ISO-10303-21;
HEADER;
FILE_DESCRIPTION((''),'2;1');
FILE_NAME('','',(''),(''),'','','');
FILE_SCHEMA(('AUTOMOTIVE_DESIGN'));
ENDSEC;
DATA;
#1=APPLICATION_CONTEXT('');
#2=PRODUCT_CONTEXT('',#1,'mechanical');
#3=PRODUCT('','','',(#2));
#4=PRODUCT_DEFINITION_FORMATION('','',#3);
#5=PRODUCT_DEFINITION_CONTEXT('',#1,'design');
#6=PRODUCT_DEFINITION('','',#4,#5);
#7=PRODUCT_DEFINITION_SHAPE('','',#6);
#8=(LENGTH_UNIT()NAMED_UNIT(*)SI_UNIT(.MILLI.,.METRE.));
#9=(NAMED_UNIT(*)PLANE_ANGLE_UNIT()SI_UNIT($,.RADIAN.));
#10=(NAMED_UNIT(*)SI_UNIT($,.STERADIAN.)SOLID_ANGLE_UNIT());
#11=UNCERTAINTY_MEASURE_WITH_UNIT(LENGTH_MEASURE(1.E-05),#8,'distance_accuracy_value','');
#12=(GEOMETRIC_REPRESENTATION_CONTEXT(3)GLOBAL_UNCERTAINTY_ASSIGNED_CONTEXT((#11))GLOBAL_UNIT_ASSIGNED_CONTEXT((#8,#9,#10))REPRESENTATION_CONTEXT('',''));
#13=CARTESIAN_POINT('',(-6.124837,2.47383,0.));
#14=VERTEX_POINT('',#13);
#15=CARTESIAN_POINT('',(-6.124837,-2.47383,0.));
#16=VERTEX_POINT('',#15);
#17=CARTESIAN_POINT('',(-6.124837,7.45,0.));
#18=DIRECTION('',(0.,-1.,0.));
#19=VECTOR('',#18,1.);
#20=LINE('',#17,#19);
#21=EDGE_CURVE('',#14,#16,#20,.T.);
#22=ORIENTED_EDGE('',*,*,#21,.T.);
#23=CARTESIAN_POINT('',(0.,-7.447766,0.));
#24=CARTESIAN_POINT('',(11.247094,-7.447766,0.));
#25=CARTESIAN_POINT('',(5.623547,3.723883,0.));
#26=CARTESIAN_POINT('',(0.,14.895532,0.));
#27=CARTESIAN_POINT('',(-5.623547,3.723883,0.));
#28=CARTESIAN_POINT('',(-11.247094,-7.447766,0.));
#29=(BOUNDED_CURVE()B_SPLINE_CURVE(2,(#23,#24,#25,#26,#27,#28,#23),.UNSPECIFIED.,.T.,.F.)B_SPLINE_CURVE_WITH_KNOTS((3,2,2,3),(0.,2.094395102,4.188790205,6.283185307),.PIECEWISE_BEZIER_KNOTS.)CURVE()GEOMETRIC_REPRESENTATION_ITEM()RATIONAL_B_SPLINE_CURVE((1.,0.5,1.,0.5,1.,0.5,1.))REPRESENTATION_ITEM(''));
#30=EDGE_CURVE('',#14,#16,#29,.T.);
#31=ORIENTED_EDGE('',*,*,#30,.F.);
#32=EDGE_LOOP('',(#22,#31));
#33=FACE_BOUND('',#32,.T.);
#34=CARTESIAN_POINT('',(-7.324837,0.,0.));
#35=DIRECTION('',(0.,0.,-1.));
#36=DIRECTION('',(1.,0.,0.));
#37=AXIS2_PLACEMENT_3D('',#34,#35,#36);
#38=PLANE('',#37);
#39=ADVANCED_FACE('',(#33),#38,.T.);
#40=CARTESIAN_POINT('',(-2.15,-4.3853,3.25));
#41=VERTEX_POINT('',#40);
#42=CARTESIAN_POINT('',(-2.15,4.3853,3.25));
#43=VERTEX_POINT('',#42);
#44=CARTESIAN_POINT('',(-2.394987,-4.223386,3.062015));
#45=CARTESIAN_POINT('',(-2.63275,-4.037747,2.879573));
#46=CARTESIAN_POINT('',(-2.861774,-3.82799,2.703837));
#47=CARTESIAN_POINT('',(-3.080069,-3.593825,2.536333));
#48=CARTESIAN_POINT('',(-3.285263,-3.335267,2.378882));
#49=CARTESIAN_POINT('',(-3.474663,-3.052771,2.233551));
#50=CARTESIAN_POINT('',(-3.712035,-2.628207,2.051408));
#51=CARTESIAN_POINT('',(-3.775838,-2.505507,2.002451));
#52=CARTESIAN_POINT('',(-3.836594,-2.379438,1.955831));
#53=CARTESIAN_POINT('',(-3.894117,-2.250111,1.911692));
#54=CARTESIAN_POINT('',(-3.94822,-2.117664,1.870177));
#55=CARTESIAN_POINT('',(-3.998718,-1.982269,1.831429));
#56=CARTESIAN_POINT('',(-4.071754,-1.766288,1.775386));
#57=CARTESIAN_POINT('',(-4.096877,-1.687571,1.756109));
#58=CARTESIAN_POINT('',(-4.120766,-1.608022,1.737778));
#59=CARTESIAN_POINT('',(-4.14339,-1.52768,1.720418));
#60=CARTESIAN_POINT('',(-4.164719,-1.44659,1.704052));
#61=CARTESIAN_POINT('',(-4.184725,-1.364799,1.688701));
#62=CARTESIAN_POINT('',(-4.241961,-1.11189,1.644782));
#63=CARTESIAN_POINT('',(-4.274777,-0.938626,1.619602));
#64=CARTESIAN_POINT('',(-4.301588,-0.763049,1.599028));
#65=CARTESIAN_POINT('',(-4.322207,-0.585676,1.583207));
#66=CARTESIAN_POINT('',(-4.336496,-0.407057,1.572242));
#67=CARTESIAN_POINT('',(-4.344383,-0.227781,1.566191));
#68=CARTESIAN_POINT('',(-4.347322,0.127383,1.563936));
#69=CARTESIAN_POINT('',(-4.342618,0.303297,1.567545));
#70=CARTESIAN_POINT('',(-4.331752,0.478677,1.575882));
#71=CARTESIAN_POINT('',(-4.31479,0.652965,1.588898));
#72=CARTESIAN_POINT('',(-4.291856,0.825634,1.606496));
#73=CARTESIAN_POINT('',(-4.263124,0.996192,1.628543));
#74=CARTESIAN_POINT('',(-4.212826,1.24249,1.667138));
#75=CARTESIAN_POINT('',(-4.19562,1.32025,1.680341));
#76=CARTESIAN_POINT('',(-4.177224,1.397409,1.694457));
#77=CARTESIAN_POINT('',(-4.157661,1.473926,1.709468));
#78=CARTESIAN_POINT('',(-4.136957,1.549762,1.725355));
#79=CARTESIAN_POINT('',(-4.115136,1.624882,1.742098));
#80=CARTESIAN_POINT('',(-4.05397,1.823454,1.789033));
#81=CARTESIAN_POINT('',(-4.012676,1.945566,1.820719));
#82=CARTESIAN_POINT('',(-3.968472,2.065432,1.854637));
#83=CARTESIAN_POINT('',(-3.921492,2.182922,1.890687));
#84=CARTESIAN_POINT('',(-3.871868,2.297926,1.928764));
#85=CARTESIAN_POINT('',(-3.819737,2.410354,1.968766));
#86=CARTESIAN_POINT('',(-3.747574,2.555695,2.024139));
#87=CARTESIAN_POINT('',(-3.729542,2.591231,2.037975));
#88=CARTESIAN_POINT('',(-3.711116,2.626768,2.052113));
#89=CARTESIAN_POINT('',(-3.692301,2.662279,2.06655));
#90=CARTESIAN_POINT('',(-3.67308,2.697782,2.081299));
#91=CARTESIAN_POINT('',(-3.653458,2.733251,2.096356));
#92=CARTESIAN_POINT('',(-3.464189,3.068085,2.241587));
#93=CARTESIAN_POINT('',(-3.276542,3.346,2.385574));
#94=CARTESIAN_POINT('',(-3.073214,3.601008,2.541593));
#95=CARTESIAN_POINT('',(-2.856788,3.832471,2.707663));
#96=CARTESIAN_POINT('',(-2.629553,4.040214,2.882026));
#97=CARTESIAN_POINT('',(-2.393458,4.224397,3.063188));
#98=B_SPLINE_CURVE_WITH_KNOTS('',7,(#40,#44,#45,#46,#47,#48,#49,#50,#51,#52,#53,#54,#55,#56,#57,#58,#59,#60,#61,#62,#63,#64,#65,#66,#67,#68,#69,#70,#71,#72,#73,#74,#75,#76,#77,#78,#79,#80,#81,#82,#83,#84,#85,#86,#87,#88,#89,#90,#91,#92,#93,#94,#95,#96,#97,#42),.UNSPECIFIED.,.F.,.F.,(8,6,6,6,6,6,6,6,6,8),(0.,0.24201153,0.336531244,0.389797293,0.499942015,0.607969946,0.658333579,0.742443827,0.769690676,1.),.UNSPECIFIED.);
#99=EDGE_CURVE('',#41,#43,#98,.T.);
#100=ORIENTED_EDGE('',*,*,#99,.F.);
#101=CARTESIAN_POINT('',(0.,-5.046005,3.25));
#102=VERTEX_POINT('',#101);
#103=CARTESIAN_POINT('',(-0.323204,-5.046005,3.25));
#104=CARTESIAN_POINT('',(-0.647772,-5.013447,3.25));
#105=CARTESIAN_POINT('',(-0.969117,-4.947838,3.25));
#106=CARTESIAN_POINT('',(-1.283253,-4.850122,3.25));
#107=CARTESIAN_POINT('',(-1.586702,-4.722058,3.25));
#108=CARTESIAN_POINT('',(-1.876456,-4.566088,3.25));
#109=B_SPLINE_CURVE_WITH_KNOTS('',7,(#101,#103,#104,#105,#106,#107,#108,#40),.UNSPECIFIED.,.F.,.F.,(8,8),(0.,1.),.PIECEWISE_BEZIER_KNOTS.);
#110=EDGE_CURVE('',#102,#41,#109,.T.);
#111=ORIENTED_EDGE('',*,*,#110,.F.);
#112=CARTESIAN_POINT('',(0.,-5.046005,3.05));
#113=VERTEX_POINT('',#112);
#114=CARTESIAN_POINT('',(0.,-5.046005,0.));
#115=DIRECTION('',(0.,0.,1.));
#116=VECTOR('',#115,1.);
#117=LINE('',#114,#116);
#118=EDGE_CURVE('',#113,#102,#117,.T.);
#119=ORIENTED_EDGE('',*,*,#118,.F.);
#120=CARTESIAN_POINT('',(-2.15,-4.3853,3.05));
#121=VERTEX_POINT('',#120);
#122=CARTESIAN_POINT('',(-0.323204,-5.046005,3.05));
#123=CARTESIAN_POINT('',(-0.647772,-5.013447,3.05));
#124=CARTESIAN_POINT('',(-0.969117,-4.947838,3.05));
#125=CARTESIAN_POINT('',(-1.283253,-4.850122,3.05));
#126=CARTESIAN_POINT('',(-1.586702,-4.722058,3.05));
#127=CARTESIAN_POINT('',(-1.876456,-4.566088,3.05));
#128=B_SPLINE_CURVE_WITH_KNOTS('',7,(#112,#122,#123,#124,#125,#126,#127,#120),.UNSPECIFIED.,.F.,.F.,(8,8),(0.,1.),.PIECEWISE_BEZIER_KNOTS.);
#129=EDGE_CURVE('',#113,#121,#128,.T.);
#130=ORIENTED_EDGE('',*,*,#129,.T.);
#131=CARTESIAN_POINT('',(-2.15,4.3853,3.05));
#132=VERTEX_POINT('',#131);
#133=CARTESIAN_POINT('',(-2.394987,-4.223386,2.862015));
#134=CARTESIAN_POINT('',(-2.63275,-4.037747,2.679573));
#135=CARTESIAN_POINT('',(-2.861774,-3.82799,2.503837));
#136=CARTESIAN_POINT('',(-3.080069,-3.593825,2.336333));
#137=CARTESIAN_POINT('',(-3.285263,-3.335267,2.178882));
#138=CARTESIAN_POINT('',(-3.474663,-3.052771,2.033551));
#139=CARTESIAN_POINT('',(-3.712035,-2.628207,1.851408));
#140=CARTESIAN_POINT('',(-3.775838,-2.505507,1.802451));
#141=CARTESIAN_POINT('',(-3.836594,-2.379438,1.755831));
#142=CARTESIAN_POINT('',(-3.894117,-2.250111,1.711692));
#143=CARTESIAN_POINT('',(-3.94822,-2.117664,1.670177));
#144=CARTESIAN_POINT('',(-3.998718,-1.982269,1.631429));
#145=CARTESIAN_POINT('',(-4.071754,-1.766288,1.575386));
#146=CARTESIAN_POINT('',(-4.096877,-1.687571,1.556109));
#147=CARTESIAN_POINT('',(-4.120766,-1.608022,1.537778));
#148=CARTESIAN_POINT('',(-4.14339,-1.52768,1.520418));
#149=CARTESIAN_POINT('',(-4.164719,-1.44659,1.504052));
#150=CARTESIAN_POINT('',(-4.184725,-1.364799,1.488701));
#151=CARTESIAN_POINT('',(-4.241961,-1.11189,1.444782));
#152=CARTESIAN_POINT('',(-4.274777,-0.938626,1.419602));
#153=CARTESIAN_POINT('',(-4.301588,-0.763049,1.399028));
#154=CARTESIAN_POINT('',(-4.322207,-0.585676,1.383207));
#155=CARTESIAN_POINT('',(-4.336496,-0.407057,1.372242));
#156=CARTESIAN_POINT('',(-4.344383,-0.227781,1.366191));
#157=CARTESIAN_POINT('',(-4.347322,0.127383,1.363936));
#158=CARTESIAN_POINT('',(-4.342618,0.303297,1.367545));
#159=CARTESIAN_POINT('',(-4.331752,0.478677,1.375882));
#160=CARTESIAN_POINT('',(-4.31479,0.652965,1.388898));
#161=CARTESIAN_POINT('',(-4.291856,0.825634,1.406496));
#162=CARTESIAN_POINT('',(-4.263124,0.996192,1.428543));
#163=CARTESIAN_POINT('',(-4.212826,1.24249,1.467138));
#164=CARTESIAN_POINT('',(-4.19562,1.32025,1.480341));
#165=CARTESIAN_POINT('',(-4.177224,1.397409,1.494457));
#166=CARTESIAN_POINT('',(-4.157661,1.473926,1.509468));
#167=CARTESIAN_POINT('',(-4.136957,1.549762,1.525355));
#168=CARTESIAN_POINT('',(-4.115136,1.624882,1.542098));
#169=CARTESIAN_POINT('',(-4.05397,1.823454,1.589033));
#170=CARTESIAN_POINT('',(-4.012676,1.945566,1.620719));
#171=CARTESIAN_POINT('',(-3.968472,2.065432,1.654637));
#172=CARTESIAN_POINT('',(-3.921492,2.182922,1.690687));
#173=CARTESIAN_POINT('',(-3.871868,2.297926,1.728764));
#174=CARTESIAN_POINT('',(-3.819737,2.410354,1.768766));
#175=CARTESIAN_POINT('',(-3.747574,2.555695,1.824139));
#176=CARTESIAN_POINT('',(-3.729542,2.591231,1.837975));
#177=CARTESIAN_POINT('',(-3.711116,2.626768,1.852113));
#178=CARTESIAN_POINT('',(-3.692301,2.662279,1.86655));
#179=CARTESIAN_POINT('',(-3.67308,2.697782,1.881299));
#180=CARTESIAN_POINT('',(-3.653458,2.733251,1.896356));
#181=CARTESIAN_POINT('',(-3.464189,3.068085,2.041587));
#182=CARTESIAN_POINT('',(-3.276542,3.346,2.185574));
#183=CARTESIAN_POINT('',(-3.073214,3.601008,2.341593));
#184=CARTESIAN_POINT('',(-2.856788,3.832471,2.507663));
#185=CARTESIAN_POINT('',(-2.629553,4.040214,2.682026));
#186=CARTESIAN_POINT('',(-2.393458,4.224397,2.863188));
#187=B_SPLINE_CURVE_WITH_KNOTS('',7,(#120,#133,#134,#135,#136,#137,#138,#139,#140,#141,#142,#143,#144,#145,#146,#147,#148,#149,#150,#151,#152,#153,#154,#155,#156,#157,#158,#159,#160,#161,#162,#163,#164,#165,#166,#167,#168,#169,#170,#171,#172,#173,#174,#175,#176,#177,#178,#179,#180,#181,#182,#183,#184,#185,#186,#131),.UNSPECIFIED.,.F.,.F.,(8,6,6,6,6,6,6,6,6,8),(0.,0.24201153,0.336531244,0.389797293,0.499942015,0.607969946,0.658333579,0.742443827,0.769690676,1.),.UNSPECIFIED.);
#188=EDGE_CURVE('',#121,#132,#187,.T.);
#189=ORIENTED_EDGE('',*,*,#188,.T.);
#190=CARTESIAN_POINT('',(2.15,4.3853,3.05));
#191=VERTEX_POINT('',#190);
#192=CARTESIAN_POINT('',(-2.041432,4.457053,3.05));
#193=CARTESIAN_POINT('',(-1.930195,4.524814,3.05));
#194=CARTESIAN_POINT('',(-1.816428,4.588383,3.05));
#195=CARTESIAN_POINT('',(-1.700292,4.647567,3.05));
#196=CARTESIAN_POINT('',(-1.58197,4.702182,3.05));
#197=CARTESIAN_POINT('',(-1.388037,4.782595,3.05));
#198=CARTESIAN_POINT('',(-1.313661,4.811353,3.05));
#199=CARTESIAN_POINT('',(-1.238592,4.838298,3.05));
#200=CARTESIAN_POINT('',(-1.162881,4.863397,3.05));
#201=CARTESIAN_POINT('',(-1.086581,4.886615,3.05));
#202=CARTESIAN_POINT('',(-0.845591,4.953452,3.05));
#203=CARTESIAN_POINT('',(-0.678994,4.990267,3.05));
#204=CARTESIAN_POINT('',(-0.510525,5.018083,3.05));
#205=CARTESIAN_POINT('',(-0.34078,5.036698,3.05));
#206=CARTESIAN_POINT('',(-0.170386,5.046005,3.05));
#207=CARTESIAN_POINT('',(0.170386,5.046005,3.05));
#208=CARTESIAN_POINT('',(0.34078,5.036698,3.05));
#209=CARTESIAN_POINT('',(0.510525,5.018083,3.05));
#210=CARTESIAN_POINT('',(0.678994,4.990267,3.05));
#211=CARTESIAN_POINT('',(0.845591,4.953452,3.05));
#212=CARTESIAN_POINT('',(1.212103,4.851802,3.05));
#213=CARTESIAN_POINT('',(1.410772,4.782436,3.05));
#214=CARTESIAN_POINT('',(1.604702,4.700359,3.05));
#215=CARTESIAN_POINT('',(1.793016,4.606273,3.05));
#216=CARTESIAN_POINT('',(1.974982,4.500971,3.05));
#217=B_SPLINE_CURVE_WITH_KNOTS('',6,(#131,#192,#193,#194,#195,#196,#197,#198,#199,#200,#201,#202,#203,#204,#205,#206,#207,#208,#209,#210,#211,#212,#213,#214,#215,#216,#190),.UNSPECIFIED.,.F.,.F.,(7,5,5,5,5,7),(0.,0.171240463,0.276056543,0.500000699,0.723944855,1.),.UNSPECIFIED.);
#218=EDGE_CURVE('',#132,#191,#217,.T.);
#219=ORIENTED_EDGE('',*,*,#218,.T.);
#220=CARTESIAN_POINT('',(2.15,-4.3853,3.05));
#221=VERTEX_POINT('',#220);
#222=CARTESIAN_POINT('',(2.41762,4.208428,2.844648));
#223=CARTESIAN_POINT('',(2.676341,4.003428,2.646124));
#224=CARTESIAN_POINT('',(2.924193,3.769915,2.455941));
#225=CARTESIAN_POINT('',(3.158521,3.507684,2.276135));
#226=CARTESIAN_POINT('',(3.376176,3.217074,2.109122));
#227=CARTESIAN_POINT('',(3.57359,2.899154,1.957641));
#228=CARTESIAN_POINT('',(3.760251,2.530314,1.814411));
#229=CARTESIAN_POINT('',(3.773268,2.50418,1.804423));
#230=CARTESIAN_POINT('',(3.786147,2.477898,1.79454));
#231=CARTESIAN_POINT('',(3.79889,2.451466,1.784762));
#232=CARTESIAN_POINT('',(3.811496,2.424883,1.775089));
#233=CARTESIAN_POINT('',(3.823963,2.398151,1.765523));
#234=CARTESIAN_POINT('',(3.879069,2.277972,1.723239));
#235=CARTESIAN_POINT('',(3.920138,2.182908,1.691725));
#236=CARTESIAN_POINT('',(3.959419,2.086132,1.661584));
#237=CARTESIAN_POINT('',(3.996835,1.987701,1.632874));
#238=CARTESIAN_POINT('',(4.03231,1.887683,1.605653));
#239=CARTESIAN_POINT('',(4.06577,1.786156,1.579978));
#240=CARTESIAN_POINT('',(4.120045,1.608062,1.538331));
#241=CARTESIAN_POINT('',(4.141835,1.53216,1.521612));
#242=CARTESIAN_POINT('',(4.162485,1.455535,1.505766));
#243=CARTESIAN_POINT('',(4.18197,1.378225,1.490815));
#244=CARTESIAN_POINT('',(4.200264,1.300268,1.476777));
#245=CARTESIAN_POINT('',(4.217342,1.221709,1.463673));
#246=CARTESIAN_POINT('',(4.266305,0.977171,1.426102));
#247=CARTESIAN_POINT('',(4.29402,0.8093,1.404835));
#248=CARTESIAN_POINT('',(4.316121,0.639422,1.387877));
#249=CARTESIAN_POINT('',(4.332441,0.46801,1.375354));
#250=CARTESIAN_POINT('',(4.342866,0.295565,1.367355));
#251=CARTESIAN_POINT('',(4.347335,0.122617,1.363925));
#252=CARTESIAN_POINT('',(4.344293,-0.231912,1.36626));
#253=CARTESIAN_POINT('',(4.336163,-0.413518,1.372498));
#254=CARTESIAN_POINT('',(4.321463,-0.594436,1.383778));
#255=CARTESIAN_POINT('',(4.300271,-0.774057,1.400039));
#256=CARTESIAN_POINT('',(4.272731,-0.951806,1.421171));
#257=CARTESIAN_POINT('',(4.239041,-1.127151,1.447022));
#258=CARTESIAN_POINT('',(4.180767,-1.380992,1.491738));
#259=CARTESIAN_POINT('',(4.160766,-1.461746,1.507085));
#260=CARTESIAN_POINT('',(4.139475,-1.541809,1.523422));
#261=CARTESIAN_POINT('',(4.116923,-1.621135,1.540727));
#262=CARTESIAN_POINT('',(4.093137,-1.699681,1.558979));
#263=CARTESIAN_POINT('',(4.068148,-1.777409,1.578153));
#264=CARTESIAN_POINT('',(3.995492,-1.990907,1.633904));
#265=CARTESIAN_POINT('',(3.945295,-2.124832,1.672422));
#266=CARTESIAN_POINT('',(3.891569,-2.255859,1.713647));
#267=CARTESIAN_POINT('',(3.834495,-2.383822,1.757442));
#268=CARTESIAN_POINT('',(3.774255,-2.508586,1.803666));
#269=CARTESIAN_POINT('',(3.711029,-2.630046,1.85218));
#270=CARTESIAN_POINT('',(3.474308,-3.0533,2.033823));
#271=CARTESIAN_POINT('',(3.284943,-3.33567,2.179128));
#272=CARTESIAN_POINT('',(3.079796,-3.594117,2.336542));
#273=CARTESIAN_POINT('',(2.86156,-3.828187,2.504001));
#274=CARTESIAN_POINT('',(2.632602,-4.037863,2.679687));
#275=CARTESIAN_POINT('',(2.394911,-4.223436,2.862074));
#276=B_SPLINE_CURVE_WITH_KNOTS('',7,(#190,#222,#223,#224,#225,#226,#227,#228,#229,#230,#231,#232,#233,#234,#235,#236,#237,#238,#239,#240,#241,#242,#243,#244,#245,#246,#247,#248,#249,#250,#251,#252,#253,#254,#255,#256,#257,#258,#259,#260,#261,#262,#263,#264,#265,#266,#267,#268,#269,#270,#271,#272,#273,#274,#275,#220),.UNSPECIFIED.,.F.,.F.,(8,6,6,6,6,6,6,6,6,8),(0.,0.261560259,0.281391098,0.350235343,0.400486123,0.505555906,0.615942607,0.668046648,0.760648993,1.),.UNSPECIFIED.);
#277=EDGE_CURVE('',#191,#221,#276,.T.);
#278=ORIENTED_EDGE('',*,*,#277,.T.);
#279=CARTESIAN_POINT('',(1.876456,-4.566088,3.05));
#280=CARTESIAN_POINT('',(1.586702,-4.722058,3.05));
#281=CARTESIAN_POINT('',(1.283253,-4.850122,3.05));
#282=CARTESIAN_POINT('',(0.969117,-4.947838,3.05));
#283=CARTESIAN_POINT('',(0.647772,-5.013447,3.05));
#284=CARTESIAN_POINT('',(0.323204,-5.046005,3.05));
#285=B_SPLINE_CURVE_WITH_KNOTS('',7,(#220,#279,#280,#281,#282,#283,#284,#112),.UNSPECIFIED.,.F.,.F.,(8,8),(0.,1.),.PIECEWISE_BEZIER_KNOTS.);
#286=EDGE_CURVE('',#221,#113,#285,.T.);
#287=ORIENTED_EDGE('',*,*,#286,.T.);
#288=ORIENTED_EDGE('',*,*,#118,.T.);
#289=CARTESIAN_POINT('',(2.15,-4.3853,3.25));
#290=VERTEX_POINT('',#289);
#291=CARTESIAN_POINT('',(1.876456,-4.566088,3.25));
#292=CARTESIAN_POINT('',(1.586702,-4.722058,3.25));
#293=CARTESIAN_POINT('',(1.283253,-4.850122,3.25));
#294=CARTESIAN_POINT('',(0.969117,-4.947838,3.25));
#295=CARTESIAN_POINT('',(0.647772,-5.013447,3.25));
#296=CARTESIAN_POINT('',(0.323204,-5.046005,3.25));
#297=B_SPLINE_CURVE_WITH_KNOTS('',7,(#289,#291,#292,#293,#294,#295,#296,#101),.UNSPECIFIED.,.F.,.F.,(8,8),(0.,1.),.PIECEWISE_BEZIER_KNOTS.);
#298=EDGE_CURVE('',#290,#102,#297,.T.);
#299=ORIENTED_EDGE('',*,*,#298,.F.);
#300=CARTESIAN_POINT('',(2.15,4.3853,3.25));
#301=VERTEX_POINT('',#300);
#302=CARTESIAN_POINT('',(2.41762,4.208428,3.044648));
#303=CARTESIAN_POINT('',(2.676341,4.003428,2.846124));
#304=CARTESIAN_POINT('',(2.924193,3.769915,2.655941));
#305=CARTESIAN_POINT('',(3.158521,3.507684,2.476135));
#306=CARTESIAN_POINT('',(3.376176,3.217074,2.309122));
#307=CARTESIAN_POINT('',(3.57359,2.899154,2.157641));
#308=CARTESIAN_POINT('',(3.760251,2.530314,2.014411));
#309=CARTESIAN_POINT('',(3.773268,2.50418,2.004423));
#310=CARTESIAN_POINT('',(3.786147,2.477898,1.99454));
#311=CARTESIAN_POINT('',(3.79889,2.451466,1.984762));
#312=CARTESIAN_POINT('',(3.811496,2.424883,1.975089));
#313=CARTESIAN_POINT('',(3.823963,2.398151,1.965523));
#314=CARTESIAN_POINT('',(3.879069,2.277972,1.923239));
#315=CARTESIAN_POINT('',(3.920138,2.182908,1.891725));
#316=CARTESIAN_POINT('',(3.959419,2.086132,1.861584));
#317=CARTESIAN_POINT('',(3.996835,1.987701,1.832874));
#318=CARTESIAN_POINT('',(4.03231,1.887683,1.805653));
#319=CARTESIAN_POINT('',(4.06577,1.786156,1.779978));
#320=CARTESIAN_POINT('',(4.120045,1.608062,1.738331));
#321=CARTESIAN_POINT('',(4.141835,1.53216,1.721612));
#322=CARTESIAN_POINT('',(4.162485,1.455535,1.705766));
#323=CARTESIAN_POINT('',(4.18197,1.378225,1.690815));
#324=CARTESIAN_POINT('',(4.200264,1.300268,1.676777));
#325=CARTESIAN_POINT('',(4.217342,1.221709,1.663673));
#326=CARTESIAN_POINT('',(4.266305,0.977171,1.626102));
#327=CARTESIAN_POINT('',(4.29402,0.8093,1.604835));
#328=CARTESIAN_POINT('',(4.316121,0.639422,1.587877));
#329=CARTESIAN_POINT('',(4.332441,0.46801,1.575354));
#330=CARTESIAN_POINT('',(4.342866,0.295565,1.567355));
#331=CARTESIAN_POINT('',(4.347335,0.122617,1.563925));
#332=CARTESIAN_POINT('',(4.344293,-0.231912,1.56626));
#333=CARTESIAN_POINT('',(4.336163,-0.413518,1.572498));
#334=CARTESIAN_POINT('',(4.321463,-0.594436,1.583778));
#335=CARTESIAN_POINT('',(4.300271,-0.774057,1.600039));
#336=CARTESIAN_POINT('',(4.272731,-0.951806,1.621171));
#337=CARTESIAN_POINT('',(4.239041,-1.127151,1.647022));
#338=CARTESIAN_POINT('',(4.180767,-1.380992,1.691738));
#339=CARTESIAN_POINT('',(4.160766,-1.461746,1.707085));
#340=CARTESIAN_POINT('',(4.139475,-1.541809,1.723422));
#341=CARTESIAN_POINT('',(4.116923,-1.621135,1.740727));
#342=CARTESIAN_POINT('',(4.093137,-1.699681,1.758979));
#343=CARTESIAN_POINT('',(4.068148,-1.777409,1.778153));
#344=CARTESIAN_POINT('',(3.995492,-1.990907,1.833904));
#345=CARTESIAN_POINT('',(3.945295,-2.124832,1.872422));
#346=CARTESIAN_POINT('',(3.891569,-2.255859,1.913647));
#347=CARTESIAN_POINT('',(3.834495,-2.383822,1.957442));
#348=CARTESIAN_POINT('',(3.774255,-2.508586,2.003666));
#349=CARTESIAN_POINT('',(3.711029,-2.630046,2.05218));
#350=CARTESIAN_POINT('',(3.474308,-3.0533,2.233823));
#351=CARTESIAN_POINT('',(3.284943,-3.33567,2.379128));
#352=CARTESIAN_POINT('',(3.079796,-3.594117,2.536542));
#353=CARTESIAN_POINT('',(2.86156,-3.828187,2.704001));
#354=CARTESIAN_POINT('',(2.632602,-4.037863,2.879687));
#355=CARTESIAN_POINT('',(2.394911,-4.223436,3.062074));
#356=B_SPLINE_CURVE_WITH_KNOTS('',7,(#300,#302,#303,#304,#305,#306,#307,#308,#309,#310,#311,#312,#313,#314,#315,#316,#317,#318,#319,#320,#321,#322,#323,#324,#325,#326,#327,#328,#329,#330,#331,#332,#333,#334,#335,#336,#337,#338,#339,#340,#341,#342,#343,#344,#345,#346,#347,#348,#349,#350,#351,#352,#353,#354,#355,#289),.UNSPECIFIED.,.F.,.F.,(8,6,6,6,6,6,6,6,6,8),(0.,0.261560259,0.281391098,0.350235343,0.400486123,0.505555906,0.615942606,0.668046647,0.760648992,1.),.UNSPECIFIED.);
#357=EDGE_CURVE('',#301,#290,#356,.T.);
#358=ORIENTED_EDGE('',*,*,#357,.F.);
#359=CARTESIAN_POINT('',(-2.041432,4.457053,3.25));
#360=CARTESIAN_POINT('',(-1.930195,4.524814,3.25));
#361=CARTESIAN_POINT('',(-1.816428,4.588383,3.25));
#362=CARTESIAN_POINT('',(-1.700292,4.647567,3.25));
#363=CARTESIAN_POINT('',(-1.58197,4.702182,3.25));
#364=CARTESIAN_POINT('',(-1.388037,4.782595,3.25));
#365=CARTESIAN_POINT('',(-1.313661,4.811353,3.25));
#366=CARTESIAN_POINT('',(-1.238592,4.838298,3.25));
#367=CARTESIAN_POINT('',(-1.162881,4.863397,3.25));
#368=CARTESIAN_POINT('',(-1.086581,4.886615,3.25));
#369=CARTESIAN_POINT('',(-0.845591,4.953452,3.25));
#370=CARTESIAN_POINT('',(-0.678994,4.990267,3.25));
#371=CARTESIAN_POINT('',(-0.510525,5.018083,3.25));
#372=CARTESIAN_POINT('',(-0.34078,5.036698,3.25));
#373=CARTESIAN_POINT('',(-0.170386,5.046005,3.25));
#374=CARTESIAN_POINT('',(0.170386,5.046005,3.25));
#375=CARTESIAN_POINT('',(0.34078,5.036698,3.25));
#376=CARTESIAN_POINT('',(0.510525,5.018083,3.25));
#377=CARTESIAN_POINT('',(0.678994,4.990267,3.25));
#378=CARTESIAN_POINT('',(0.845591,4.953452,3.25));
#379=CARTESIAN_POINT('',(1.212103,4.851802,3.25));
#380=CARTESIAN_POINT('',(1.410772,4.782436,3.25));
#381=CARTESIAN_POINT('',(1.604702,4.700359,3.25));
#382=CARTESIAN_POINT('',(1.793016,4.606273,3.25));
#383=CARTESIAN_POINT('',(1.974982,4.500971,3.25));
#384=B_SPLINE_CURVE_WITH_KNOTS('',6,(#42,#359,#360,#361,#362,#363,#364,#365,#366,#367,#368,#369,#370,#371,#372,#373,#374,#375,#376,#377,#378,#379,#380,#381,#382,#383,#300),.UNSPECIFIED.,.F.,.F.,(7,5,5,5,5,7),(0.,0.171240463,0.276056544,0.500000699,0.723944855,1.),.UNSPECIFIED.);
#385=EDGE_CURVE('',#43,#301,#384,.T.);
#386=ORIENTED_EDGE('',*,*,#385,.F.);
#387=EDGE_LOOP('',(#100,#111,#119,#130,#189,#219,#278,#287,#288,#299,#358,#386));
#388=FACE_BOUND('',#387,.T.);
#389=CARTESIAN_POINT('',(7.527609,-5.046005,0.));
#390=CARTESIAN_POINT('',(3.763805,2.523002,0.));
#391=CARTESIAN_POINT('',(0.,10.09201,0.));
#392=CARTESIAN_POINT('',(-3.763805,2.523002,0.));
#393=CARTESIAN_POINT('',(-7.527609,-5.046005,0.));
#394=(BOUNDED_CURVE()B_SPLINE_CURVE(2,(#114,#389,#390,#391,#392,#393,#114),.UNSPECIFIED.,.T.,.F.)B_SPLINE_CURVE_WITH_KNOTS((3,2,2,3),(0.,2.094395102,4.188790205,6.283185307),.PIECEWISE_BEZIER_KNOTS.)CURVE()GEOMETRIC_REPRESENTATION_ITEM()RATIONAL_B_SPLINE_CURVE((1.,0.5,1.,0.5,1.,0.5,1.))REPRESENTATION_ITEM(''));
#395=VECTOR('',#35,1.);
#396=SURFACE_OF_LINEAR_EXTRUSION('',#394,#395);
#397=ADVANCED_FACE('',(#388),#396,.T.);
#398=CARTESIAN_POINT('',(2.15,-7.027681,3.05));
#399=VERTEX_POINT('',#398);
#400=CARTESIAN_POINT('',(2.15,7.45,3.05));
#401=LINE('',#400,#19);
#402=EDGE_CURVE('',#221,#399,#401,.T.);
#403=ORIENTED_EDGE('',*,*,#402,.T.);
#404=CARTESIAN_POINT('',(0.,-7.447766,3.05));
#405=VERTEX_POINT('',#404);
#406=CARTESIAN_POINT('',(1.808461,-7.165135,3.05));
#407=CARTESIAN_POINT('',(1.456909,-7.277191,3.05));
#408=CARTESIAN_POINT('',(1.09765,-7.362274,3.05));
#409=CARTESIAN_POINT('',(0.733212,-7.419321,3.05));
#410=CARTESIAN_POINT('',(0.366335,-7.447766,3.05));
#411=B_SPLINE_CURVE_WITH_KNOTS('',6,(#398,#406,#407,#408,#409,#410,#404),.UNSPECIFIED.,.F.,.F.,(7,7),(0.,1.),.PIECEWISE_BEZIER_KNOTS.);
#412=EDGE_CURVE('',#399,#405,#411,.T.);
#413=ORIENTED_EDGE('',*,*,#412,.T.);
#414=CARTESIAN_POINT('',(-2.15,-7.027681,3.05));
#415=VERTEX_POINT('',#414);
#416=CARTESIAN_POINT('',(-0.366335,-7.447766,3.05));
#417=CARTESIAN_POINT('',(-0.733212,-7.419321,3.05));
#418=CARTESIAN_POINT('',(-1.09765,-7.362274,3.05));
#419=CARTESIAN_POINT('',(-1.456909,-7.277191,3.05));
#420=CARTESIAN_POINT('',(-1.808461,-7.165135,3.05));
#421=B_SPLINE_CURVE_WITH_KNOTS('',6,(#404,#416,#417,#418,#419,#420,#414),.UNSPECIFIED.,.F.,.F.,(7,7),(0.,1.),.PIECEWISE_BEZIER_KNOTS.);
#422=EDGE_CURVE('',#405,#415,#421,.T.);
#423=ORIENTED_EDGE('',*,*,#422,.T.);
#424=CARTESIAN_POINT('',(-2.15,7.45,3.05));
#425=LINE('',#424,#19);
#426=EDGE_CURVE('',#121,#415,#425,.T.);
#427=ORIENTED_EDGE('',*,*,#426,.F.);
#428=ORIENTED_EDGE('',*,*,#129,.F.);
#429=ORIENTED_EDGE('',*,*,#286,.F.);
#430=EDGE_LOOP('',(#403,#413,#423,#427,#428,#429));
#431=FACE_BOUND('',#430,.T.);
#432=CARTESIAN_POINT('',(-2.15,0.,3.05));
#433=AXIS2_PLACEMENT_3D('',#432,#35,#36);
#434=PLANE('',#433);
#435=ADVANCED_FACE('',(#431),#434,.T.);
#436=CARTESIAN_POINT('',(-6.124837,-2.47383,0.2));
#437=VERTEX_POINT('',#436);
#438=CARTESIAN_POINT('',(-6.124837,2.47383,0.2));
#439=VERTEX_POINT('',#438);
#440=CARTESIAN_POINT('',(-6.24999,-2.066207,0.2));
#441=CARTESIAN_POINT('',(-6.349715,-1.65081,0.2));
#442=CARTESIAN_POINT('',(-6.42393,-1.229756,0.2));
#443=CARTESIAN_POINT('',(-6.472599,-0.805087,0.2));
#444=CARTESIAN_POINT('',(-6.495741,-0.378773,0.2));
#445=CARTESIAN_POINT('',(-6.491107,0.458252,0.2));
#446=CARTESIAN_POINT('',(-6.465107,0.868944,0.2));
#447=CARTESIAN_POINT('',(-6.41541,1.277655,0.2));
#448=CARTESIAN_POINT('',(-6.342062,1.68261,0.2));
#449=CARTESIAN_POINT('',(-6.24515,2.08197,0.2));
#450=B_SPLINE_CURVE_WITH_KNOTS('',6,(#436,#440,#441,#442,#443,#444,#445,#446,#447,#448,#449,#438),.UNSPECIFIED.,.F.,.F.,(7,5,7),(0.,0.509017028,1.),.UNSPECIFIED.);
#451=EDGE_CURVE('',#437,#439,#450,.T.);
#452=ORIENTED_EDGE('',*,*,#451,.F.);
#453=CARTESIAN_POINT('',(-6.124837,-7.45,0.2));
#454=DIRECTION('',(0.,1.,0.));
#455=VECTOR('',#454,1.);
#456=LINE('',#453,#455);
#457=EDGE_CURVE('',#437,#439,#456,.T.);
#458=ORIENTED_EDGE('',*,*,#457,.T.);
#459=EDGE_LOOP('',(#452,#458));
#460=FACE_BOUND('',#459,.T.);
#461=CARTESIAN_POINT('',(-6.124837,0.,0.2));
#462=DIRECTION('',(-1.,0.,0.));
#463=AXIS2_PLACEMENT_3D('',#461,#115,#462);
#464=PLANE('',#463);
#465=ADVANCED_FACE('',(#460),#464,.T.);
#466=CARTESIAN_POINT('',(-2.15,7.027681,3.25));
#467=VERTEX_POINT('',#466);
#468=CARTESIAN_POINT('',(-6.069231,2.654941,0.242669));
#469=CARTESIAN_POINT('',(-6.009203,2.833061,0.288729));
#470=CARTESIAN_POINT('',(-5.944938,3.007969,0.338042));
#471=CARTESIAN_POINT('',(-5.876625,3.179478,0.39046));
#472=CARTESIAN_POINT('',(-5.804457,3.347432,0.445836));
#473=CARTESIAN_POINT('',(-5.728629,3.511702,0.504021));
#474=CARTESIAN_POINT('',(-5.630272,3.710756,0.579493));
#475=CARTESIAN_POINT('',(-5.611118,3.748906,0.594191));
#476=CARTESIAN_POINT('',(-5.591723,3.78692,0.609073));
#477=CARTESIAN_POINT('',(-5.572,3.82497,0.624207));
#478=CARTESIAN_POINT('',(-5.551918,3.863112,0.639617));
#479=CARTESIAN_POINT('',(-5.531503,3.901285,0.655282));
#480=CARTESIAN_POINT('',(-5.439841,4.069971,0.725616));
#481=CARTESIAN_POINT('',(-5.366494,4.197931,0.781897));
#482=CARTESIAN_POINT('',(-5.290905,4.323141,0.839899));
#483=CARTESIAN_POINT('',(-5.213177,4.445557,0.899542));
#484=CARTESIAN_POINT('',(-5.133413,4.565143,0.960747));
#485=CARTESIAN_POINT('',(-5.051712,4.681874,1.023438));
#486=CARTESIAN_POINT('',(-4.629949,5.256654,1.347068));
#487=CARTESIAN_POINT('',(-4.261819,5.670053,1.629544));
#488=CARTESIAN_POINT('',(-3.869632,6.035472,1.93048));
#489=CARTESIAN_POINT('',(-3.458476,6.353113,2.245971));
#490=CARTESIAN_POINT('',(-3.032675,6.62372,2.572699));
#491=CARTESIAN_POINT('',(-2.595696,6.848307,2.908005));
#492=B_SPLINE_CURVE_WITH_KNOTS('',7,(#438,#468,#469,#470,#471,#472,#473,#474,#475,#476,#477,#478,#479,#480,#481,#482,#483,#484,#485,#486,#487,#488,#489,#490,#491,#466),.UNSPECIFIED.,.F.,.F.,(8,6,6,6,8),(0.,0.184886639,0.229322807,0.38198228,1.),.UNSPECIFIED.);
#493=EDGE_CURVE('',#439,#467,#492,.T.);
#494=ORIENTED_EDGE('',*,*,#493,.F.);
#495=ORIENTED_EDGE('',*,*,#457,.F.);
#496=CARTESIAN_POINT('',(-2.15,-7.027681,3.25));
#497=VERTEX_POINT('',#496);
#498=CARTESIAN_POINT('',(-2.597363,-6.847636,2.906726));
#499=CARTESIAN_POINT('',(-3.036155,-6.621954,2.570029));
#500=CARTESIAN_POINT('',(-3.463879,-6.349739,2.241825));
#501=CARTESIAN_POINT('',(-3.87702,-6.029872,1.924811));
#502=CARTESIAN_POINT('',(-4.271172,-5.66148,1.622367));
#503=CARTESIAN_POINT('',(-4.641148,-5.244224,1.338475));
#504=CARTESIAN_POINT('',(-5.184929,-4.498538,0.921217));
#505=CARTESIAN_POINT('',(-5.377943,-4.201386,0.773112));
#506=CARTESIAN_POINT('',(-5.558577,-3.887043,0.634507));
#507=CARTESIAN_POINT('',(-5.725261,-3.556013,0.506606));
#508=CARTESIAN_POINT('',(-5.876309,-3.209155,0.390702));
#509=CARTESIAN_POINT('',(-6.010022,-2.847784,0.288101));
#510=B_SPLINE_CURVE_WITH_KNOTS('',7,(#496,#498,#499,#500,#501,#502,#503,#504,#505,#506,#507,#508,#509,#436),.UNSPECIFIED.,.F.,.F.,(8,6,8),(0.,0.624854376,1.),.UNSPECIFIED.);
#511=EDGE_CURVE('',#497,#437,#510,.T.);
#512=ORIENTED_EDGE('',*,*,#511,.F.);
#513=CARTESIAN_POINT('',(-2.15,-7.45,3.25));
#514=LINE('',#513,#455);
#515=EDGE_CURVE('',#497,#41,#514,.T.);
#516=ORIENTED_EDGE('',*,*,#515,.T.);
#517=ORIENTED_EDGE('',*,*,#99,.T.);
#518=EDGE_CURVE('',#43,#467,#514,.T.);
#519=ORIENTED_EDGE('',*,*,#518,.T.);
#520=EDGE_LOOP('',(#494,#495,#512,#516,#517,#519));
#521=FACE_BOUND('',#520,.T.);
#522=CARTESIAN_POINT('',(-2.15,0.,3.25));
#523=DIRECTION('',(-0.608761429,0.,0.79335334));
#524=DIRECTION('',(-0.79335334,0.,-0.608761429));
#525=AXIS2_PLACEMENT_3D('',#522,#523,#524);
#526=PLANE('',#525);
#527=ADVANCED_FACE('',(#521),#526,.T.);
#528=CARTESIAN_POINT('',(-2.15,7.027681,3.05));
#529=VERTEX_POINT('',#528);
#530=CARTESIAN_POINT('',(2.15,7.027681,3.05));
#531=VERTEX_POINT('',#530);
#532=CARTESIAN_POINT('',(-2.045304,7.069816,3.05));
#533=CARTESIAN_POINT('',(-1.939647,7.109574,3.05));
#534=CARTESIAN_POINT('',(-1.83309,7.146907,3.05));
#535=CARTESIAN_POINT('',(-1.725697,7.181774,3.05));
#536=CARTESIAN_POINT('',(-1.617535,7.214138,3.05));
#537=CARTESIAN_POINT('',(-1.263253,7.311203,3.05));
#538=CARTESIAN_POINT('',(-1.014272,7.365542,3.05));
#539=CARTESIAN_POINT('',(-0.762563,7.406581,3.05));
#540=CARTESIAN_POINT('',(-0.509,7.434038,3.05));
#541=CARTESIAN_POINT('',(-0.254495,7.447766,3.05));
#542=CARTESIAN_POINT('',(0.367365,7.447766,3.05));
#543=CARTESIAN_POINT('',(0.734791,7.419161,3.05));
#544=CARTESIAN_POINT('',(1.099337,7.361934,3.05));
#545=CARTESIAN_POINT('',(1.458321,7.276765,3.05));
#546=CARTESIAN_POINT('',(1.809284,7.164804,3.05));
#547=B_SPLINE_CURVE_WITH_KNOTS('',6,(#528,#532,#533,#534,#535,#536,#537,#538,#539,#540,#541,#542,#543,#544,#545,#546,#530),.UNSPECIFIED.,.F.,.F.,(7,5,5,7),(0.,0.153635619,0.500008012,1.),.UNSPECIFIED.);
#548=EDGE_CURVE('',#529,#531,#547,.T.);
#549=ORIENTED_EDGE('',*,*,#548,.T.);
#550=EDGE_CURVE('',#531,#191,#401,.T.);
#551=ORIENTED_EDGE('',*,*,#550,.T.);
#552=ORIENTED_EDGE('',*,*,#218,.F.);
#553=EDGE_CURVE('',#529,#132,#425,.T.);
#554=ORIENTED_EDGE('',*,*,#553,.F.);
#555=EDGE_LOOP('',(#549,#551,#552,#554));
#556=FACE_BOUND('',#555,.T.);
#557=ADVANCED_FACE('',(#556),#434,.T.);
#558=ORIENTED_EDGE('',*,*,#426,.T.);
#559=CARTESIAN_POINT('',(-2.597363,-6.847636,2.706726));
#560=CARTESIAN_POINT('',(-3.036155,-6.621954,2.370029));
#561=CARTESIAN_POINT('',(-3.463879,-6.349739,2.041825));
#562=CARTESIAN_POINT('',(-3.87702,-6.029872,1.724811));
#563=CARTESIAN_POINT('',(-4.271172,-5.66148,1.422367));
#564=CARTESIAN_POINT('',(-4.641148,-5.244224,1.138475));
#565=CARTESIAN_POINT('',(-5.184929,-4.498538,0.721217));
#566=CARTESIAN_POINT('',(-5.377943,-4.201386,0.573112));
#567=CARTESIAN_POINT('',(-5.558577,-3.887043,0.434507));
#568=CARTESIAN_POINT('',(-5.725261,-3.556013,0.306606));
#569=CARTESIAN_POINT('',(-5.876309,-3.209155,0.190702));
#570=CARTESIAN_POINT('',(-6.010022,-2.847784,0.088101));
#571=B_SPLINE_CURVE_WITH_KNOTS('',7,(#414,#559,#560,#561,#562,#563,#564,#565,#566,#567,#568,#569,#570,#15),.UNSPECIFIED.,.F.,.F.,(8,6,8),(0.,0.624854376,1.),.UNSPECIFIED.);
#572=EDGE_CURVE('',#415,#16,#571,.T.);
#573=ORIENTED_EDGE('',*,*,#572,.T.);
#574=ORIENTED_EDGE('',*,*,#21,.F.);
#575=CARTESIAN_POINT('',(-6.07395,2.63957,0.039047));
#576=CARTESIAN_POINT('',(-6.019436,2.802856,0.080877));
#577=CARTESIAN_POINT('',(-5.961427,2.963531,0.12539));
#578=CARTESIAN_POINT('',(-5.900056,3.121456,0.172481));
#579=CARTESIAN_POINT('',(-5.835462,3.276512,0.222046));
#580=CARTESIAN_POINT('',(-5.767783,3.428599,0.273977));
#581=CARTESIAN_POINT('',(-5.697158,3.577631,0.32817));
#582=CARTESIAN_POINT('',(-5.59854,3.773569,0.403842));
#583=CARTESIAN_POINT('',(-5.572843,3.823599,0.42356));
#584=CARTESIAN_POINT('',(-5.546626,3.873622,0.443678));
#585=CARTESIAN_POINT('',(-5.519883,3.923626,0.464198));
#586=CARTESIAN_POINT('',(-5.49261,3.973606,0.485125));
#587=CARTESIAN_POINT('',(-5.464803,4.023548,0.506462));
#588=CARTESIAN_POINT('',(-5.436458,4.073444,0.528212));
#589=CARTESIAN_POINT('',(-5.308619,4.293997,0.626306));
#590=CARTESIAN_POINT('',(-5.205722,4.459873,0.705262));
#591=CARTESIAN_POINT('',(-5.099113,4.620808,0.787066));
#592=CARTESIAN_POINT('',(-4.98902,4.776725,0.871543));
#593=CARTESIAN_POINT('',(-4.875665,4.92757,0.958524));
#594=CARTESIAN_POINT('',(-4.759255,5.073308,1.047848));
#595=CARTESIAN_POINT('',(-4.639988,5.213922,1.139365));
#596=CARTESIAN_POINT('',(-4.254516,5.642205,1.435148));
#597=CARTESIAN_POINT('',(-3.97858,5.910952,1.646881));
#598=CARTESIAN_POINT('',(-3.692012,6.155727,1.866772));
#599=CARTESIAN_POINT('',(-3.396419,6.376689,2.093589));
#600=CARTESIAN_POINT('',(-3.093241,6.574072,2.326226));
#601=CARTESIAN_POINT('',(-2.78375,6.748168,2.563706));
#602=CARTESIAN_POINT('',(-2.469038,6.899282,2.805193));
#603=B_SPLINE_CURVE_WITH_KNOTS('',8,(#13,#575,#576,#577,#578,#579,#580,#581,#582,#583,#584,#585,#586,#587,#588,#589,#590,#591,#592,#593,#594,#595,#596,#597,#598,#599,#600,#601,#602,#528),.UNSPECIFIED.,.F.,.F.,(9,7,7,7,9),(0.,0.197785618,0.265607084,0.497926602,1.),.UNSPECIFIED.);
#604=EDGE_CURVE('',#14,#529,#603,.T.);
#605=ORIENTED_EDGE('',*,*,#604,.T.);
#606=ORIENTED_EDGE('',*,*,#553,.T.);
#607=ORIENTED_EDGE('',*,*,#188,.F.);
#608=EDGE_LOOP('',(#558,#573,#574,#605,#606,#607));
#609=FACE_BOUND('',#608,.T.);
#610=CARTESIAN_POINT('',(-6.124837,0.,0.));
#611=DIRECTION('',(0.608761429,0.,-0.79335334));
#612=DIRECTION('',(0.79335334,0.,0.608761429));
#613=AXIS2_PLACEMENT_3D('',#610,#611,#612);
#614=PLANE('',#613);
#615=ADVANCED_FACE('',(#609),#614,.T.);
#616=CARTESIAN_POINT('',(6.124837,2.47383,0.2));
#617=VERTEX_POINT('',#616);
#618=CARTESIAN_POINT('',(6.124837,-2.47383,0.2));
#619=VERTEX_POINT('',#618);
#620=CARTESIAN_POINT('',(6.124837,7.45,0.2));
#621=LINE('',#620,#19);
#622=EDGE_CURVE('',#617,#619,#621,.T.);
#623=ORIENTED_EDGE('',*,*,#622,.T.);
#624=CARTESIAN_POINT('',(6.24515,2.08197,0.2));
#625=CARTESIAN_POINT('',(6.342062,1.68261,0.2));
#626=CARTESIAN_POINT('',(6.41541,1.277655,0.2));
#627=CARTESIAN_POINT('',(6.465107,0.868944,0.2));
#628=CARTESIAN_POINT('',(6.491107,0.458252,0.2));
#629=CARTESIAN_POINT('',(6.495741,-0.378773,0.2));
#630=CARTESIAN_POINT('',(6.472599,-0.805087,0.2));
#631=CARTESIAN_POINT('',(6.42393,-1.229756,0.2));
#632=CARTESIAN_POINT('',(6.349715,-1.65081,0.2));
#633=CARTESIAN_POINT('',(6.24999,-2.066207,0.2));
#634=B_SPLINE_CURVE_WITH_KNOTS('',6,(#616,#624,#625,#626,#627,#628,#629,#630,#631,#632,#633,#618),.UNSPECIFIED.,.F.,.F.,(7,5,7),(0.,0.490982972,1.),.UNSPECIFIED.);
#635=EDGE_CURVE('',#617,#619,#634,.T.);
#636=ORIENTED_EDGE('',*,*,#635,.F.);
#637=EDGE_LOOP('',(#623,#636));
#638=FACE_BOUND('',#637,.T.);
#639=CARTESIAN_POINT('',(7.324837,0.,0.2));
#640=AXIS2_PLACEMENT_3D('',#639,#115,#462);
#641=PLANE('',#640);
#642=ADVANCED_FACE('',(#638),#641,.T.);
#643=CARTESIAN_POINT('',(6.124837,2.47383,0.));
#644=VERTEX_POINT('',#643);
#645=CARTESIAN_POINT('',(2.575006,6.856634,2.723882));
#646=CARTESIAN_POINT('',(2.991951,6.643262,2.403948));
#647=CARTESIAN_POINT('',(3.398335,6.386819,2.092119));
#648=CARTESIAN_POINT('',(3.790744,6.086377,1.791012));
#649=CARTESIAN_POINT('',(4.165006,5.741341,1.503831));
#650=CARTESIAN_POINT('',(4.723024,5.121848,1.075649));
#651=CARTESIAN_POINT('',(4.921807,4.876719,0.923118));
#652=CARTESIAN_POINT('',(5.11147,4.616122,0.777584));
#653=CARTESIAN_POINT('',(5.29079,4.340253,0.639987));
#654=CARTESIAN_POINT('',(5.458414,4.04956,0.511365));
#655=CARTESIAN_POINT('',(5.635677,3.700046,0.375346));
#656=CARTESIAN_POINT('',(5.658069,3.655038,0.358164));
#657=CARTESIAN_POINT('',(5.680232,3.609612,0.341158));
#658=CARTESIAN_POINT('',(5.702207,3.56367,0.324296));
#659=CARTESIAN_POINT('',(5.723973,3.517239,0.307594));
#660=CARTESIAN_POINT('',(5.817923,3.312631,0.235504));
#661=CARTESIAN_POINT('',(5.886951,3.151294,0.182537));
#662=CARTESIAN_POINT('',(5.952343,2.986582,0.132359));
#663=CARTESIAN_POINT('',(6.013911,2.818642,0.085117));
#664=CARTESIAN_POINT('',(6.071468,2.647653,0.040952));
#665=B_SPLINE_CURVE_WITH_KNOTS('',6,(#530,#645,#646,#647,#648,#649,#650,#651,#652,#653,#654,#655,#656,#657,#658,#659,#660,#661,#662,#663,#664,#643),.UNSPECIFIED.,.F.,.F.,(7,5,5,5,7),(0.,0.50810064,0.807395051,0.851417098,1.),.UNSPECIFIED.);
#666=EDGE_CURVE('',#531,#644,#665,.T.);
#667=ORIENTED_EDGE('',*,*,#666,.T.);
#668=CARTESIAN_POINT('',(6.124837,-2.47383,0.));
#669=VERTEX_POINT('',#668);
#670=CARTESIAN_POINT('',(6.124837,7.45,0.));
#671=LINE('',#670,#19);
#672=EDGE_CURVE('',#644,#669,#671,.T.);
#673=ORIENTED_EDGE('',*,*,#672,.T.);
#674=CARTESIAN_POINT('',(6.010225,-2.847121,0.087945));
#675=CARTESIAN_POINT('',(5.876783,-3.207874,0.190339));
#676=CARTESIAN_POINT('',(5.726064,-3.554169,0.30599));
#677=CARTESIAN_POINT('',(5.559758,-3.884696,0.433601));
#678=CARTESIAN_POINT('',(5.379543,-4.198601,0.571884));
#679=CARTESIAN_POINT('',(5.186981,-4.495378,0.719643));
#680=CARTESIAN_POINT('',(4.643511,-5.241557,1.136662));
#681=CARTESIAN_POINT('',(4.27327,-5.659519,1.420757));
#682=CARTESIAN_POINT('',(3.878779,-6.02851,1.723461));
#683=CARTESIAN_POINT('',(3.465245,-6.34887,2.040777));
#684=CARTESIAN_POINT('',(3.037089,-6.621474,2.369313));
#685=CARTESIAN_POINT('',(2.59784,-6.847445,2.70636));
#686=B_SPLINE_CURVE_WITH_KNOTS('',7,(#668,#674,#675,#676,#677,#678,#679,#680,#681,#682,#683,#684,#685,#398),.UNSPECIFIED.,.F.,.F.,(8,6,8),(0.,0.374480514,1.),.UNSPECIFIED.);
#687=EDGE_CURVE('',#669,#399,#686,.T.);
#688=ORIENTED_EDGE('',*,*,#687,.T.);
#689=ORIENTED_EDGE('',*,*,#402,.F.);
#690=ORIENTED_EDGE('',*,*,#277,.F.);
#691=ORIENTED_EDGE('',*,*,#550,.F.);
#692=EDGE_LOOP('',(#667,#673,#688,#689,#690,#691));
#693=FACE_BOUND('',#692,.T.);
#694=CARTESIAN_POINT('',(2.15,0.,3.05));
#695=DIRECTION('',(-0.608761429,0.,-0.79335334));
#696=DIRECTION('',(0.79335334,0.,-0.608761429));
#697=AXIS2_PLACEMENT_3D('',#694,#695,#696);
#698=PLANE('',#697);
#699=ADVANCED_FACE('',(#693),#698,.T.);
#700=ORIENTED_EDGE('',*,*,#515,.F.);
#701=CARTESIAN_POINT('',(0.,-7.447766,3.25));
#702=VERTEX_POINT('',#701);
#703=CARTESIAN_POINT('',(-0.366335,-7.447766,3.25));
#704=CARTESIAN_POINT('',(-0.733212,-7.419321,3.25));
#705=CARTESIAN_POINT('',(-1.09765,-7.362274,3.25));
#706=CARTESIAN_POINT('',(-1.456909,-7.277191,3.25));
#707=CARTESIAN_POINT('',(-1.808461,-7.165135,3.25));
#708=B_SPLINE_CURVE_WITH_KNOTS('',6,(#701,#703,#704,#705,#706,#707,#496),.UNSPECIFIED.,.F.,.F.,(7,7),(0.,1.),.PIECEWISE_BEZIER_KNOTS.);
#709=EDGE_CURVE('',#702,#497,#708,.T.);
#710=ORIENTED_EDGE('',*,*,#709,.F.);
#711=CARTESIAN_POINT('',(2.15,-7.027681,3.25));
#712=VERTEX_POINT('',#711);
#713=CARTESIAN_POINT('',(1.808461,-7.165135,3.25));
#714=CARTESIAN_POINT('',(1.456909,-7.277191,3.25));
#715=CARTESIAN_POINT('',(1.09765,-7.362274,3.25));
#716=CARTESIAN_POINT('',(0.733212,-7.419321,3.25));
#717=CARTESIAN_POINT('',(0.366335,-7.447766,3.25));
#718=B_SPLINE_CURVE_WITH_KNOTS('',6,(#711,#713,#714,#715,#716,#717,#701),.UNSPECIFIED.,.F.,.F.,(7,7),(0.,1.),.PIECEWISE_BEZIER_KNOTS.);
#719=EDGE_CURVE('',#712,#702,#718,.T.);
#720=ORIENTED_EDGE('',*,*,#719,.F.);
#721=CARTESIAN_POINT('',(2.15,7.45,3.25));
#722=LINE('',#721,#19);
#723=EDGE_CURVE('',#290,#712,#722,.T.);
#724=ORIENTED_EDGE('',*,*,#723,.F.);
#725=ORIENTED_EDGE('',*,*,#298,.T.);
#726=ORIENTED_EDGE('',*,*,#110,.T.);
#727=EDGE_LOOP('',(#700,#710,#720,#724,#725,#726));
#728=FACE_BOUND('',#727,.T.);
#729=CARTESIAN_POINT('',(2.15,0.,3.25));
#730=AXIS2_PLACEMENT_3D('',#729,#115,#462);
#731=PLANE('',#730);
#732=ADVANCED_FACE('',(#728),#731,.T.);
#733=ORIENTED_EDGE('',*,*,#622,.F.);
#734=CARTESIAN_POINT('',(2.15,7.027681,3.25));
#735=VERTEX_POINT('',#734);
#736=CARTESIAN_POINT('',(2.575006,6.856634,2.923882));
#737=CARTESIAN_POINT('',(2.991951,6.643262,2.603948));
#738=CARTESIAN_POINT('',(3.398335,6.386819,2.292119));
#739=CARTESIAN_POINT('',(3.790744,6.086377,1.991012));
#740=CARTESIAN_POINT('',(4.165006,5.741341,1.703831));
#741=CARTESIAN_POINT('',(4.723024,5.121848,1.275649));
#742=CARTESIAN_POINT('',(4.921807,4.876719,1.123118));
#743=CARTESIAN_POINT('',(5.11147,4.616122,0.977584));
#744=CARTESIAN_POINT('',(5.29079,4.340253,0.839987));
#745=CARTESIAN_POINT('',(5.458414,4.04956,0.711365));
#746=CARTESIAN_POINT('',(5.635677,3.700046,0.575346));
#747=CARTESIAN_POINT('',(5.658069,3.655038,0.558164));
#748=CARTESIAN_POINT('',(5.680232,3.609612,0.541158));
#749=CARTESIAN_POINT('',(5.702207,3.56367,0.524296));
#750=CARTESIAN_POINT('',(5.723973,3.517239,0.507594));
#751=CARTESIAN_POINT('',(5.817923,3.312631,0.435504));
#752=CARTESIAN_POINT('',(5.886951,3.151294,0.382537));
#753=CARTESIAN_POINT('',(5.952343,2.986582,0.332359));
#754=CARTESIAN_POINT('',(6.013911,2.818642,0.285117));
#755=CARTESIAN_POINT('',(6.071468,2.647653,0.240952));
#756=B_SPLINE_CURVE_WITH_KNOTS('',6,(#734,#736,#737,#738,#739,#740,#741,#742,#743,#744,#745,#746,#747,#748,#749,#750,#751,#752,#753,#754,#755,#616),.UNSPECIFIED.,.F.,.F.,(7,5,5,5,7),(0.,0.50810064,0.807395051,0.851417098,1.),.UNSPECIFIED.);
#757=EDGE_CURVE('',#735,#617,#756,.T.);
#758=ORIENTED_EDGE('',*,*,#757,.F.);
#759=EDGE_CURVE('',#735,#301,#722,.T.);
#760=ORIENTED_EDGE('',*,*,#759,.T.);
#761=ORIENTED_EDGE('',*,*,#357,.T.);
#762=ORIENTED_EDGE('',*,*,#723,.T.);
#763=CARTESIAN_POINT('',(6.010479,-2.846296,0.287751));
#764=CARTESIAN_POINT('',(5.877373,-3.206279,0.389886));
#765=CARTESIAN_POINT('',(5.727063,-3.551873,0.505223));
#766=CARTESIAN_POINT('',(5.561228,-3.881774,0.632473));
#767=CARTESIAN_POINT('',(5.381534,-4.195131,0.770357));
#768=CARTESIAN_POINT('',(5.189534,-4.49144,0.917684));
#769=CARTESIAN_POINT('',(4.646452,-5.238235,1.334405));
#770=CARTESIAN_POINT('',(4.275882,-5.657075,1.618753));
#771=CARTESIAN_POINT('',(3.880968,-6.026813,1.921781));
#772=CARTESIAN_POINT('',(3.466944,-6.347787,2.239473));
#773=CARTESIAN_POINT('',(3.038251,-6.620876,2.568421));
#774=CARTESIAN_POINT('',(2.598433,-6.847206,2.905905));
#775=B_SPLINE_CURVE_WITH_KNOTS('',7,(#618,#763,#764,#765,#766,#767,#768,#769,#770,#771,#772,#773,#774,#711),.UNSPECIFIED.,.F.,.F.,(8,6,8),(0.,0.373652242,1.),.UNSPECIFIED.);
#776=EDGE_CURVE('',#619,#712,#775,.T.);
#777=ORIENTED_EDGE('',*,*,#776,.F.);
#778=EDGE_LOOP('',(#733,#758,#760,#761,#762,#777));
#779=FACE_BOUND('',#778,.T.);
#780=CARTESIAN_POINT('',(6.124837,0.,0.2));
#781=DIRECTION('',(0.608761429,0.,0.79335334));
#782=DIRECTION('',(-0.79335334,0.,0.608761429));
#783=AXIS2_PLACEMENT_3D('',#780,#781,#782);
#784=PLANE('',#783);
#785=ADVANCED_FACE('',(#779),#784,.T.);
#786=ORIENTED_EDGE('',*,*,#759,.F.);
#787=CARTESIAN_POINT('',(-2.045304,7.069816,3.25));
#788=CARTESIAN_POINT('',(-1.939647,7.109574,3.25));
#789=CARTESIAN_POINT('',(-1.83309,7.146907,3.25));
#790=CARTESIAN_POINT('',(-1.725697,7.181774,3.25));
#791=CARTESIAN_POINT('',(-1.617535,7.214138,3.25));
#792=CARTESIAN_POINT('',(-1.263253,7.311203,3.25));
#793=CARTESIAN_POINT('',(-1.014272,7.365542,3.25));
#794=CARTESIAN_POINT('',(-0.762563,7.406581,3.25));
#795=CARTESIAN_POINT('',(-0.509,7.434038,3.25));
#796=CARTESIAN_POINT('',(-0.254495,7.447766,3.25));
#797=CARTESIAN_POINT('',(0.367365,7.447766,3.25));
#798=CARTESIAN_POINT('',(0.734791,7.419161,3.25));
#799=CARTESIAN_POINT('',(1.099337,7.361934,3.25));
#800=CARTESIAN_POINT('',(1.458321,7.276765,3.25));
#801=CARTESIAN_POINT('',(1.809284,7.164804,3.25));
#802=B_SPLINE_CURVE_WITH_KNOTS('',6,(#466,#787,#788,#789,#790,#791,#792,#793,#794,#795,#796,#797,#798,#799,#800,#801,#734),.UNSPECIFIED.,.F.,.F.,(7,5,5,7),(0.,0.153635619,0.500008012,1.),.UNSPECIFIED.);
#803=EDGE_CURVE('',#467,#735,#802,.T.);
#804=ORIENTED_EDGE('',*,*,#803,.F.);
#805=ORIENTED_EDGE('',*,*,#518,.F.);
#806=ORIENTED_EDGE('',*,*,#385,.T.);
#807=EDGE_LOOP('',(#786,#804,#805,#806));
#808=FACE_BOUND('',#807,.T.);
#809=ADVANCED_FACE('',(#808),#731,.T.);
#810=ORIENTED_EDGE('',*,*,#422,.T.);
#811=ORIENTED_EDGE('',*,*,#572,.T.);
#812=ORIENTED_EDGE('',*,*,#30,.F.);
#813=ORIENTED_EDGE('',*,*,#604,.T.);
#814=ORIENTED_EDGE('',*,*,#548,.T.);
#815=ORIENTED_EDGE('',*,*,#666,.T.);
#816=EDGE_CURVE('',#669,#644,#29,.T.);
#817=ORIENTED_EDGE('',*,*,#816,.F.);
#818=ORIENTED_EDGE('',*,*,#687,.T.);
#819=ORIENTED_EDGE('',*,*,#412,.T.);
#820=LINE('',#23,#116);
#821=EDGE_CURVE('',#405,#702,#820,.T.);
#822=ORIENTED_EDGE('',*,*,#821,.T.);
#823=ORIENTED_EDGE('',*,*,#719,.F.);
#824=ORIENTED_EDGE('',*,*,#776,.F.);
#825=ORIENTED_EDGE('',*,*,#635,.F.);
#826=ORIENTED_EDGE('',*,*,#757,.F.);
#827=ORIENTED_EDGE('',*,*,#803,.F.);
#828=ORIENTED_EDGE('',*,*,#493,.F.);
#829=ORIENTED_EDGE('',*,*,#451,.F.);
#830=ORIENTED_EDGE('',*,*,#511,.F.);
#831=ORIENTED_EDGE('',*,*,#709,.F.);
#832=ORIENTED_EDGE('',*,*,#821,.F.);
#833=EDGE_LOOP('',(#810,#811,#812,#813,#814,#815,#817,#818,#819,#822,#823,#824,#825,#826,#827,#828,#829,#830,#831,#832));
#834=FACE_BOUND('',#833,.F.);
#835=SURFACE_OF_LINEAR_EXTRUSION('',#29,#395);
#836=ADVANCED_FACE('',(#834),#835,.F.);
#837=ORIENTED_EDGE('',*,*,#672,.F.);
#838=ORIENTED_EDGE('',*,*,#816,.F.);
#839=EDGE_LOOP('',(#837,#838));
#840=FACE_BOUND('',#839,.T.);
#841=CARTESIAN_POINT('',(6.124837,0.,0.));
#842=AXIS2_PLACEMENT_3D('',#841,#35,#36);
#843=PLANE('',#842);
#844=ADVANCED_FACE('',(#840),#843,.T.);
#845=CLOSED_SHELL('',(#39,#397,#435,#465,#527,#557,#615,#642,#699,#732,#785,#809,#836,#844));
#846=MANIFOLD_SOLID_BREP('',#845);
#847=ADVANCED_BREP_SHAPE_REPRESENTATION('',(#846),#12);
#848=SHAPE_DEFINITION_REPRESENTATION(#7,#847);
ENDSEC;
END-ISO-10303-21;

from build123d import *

# Parameters (mm, degrees)
F1_DEPTH = 7.45
F3_DEPTH = 25
F2_W     = 19.3785689771
F2_H     = 18.396246247
F4_DEPTH = 25


with BuildPart() as f1:
    # F0 (on Front) → F1 (new body, symmetric)
    with BuildSketch(Plane.XZ):
        Polygon((-7.3248373872, 0.2), (-7.3248373872, 0), (-6.1248373872, 0), (-2.15, 3.05), (2.15, 3.05), (6.1248373872, 0), (7.3248373872, 0), (7.3248373872, 0.2), (6.1248373872, 0.2), (2.15, 3.25), (-2.15, 3.25), (-6.1248373872, 0.2), align=None)
    extrude(amount=F1_DEPTH, both=True)

    # F2 (on Top) → F3 (cut)
    with BuildSketch(Plane.XY):
        with BuildLine():
            add(Edge.make_bspline(
                [(0, -5.0460048951), (7.5276090923, -5.0460048951), (3.7638045462, 2.5230024476), (0, 10.0920097902), (-3.7638045462, 2.5230024476), (-7.5276090923, -5.0460048951), (0, -5.0460048951)],
                knots=[0, 0, 0, 2.0943951024, 2.0943951024, 4.1887902048, 4.1887902048, 6.2831853072, 6.2831853072, 6.2831853072], degree=2, weights=[1, 0.5, 1, 0.5, 1, 0.5, 1]))
        make_face()
    extrude(amount=F3_DEPTH, mode=Mode.SUBTRACT)

    # F2 (on Top) → F4 (cut)
    with BuildSketch(Plane.XY):
        with Locations((-0.3213128075, -0.4113703035)):
            Rectangle(F2_W, F2_H)
        with BuildLine():
            add(Edge.make_bspline(
                [(0, -7.4477661401), (11.2470944428, -7.4477661401), (5.6235472214, 3.7238830701), (0, 14.8955322802), (-5.6235472214, 3.7238830701), (-11.2470944428, -7.4477661401), (0, -7.4477661401)],
                knots=[0, 0, 0, 2.0943951024, 2.0943951024, 4.1887902048, 4.1887902048, 6.2831853072, 6.2831853072, 6.2831853072], degree=2, weights=[1, 0.5, 1, 0.5, 1, 0.5, 1]))
        make_face(mode=Mode.SUBTRACT)
    extrude(amount=F4_DEPTH, mode=Mode.SUBTRACT)


solid = f1.part
